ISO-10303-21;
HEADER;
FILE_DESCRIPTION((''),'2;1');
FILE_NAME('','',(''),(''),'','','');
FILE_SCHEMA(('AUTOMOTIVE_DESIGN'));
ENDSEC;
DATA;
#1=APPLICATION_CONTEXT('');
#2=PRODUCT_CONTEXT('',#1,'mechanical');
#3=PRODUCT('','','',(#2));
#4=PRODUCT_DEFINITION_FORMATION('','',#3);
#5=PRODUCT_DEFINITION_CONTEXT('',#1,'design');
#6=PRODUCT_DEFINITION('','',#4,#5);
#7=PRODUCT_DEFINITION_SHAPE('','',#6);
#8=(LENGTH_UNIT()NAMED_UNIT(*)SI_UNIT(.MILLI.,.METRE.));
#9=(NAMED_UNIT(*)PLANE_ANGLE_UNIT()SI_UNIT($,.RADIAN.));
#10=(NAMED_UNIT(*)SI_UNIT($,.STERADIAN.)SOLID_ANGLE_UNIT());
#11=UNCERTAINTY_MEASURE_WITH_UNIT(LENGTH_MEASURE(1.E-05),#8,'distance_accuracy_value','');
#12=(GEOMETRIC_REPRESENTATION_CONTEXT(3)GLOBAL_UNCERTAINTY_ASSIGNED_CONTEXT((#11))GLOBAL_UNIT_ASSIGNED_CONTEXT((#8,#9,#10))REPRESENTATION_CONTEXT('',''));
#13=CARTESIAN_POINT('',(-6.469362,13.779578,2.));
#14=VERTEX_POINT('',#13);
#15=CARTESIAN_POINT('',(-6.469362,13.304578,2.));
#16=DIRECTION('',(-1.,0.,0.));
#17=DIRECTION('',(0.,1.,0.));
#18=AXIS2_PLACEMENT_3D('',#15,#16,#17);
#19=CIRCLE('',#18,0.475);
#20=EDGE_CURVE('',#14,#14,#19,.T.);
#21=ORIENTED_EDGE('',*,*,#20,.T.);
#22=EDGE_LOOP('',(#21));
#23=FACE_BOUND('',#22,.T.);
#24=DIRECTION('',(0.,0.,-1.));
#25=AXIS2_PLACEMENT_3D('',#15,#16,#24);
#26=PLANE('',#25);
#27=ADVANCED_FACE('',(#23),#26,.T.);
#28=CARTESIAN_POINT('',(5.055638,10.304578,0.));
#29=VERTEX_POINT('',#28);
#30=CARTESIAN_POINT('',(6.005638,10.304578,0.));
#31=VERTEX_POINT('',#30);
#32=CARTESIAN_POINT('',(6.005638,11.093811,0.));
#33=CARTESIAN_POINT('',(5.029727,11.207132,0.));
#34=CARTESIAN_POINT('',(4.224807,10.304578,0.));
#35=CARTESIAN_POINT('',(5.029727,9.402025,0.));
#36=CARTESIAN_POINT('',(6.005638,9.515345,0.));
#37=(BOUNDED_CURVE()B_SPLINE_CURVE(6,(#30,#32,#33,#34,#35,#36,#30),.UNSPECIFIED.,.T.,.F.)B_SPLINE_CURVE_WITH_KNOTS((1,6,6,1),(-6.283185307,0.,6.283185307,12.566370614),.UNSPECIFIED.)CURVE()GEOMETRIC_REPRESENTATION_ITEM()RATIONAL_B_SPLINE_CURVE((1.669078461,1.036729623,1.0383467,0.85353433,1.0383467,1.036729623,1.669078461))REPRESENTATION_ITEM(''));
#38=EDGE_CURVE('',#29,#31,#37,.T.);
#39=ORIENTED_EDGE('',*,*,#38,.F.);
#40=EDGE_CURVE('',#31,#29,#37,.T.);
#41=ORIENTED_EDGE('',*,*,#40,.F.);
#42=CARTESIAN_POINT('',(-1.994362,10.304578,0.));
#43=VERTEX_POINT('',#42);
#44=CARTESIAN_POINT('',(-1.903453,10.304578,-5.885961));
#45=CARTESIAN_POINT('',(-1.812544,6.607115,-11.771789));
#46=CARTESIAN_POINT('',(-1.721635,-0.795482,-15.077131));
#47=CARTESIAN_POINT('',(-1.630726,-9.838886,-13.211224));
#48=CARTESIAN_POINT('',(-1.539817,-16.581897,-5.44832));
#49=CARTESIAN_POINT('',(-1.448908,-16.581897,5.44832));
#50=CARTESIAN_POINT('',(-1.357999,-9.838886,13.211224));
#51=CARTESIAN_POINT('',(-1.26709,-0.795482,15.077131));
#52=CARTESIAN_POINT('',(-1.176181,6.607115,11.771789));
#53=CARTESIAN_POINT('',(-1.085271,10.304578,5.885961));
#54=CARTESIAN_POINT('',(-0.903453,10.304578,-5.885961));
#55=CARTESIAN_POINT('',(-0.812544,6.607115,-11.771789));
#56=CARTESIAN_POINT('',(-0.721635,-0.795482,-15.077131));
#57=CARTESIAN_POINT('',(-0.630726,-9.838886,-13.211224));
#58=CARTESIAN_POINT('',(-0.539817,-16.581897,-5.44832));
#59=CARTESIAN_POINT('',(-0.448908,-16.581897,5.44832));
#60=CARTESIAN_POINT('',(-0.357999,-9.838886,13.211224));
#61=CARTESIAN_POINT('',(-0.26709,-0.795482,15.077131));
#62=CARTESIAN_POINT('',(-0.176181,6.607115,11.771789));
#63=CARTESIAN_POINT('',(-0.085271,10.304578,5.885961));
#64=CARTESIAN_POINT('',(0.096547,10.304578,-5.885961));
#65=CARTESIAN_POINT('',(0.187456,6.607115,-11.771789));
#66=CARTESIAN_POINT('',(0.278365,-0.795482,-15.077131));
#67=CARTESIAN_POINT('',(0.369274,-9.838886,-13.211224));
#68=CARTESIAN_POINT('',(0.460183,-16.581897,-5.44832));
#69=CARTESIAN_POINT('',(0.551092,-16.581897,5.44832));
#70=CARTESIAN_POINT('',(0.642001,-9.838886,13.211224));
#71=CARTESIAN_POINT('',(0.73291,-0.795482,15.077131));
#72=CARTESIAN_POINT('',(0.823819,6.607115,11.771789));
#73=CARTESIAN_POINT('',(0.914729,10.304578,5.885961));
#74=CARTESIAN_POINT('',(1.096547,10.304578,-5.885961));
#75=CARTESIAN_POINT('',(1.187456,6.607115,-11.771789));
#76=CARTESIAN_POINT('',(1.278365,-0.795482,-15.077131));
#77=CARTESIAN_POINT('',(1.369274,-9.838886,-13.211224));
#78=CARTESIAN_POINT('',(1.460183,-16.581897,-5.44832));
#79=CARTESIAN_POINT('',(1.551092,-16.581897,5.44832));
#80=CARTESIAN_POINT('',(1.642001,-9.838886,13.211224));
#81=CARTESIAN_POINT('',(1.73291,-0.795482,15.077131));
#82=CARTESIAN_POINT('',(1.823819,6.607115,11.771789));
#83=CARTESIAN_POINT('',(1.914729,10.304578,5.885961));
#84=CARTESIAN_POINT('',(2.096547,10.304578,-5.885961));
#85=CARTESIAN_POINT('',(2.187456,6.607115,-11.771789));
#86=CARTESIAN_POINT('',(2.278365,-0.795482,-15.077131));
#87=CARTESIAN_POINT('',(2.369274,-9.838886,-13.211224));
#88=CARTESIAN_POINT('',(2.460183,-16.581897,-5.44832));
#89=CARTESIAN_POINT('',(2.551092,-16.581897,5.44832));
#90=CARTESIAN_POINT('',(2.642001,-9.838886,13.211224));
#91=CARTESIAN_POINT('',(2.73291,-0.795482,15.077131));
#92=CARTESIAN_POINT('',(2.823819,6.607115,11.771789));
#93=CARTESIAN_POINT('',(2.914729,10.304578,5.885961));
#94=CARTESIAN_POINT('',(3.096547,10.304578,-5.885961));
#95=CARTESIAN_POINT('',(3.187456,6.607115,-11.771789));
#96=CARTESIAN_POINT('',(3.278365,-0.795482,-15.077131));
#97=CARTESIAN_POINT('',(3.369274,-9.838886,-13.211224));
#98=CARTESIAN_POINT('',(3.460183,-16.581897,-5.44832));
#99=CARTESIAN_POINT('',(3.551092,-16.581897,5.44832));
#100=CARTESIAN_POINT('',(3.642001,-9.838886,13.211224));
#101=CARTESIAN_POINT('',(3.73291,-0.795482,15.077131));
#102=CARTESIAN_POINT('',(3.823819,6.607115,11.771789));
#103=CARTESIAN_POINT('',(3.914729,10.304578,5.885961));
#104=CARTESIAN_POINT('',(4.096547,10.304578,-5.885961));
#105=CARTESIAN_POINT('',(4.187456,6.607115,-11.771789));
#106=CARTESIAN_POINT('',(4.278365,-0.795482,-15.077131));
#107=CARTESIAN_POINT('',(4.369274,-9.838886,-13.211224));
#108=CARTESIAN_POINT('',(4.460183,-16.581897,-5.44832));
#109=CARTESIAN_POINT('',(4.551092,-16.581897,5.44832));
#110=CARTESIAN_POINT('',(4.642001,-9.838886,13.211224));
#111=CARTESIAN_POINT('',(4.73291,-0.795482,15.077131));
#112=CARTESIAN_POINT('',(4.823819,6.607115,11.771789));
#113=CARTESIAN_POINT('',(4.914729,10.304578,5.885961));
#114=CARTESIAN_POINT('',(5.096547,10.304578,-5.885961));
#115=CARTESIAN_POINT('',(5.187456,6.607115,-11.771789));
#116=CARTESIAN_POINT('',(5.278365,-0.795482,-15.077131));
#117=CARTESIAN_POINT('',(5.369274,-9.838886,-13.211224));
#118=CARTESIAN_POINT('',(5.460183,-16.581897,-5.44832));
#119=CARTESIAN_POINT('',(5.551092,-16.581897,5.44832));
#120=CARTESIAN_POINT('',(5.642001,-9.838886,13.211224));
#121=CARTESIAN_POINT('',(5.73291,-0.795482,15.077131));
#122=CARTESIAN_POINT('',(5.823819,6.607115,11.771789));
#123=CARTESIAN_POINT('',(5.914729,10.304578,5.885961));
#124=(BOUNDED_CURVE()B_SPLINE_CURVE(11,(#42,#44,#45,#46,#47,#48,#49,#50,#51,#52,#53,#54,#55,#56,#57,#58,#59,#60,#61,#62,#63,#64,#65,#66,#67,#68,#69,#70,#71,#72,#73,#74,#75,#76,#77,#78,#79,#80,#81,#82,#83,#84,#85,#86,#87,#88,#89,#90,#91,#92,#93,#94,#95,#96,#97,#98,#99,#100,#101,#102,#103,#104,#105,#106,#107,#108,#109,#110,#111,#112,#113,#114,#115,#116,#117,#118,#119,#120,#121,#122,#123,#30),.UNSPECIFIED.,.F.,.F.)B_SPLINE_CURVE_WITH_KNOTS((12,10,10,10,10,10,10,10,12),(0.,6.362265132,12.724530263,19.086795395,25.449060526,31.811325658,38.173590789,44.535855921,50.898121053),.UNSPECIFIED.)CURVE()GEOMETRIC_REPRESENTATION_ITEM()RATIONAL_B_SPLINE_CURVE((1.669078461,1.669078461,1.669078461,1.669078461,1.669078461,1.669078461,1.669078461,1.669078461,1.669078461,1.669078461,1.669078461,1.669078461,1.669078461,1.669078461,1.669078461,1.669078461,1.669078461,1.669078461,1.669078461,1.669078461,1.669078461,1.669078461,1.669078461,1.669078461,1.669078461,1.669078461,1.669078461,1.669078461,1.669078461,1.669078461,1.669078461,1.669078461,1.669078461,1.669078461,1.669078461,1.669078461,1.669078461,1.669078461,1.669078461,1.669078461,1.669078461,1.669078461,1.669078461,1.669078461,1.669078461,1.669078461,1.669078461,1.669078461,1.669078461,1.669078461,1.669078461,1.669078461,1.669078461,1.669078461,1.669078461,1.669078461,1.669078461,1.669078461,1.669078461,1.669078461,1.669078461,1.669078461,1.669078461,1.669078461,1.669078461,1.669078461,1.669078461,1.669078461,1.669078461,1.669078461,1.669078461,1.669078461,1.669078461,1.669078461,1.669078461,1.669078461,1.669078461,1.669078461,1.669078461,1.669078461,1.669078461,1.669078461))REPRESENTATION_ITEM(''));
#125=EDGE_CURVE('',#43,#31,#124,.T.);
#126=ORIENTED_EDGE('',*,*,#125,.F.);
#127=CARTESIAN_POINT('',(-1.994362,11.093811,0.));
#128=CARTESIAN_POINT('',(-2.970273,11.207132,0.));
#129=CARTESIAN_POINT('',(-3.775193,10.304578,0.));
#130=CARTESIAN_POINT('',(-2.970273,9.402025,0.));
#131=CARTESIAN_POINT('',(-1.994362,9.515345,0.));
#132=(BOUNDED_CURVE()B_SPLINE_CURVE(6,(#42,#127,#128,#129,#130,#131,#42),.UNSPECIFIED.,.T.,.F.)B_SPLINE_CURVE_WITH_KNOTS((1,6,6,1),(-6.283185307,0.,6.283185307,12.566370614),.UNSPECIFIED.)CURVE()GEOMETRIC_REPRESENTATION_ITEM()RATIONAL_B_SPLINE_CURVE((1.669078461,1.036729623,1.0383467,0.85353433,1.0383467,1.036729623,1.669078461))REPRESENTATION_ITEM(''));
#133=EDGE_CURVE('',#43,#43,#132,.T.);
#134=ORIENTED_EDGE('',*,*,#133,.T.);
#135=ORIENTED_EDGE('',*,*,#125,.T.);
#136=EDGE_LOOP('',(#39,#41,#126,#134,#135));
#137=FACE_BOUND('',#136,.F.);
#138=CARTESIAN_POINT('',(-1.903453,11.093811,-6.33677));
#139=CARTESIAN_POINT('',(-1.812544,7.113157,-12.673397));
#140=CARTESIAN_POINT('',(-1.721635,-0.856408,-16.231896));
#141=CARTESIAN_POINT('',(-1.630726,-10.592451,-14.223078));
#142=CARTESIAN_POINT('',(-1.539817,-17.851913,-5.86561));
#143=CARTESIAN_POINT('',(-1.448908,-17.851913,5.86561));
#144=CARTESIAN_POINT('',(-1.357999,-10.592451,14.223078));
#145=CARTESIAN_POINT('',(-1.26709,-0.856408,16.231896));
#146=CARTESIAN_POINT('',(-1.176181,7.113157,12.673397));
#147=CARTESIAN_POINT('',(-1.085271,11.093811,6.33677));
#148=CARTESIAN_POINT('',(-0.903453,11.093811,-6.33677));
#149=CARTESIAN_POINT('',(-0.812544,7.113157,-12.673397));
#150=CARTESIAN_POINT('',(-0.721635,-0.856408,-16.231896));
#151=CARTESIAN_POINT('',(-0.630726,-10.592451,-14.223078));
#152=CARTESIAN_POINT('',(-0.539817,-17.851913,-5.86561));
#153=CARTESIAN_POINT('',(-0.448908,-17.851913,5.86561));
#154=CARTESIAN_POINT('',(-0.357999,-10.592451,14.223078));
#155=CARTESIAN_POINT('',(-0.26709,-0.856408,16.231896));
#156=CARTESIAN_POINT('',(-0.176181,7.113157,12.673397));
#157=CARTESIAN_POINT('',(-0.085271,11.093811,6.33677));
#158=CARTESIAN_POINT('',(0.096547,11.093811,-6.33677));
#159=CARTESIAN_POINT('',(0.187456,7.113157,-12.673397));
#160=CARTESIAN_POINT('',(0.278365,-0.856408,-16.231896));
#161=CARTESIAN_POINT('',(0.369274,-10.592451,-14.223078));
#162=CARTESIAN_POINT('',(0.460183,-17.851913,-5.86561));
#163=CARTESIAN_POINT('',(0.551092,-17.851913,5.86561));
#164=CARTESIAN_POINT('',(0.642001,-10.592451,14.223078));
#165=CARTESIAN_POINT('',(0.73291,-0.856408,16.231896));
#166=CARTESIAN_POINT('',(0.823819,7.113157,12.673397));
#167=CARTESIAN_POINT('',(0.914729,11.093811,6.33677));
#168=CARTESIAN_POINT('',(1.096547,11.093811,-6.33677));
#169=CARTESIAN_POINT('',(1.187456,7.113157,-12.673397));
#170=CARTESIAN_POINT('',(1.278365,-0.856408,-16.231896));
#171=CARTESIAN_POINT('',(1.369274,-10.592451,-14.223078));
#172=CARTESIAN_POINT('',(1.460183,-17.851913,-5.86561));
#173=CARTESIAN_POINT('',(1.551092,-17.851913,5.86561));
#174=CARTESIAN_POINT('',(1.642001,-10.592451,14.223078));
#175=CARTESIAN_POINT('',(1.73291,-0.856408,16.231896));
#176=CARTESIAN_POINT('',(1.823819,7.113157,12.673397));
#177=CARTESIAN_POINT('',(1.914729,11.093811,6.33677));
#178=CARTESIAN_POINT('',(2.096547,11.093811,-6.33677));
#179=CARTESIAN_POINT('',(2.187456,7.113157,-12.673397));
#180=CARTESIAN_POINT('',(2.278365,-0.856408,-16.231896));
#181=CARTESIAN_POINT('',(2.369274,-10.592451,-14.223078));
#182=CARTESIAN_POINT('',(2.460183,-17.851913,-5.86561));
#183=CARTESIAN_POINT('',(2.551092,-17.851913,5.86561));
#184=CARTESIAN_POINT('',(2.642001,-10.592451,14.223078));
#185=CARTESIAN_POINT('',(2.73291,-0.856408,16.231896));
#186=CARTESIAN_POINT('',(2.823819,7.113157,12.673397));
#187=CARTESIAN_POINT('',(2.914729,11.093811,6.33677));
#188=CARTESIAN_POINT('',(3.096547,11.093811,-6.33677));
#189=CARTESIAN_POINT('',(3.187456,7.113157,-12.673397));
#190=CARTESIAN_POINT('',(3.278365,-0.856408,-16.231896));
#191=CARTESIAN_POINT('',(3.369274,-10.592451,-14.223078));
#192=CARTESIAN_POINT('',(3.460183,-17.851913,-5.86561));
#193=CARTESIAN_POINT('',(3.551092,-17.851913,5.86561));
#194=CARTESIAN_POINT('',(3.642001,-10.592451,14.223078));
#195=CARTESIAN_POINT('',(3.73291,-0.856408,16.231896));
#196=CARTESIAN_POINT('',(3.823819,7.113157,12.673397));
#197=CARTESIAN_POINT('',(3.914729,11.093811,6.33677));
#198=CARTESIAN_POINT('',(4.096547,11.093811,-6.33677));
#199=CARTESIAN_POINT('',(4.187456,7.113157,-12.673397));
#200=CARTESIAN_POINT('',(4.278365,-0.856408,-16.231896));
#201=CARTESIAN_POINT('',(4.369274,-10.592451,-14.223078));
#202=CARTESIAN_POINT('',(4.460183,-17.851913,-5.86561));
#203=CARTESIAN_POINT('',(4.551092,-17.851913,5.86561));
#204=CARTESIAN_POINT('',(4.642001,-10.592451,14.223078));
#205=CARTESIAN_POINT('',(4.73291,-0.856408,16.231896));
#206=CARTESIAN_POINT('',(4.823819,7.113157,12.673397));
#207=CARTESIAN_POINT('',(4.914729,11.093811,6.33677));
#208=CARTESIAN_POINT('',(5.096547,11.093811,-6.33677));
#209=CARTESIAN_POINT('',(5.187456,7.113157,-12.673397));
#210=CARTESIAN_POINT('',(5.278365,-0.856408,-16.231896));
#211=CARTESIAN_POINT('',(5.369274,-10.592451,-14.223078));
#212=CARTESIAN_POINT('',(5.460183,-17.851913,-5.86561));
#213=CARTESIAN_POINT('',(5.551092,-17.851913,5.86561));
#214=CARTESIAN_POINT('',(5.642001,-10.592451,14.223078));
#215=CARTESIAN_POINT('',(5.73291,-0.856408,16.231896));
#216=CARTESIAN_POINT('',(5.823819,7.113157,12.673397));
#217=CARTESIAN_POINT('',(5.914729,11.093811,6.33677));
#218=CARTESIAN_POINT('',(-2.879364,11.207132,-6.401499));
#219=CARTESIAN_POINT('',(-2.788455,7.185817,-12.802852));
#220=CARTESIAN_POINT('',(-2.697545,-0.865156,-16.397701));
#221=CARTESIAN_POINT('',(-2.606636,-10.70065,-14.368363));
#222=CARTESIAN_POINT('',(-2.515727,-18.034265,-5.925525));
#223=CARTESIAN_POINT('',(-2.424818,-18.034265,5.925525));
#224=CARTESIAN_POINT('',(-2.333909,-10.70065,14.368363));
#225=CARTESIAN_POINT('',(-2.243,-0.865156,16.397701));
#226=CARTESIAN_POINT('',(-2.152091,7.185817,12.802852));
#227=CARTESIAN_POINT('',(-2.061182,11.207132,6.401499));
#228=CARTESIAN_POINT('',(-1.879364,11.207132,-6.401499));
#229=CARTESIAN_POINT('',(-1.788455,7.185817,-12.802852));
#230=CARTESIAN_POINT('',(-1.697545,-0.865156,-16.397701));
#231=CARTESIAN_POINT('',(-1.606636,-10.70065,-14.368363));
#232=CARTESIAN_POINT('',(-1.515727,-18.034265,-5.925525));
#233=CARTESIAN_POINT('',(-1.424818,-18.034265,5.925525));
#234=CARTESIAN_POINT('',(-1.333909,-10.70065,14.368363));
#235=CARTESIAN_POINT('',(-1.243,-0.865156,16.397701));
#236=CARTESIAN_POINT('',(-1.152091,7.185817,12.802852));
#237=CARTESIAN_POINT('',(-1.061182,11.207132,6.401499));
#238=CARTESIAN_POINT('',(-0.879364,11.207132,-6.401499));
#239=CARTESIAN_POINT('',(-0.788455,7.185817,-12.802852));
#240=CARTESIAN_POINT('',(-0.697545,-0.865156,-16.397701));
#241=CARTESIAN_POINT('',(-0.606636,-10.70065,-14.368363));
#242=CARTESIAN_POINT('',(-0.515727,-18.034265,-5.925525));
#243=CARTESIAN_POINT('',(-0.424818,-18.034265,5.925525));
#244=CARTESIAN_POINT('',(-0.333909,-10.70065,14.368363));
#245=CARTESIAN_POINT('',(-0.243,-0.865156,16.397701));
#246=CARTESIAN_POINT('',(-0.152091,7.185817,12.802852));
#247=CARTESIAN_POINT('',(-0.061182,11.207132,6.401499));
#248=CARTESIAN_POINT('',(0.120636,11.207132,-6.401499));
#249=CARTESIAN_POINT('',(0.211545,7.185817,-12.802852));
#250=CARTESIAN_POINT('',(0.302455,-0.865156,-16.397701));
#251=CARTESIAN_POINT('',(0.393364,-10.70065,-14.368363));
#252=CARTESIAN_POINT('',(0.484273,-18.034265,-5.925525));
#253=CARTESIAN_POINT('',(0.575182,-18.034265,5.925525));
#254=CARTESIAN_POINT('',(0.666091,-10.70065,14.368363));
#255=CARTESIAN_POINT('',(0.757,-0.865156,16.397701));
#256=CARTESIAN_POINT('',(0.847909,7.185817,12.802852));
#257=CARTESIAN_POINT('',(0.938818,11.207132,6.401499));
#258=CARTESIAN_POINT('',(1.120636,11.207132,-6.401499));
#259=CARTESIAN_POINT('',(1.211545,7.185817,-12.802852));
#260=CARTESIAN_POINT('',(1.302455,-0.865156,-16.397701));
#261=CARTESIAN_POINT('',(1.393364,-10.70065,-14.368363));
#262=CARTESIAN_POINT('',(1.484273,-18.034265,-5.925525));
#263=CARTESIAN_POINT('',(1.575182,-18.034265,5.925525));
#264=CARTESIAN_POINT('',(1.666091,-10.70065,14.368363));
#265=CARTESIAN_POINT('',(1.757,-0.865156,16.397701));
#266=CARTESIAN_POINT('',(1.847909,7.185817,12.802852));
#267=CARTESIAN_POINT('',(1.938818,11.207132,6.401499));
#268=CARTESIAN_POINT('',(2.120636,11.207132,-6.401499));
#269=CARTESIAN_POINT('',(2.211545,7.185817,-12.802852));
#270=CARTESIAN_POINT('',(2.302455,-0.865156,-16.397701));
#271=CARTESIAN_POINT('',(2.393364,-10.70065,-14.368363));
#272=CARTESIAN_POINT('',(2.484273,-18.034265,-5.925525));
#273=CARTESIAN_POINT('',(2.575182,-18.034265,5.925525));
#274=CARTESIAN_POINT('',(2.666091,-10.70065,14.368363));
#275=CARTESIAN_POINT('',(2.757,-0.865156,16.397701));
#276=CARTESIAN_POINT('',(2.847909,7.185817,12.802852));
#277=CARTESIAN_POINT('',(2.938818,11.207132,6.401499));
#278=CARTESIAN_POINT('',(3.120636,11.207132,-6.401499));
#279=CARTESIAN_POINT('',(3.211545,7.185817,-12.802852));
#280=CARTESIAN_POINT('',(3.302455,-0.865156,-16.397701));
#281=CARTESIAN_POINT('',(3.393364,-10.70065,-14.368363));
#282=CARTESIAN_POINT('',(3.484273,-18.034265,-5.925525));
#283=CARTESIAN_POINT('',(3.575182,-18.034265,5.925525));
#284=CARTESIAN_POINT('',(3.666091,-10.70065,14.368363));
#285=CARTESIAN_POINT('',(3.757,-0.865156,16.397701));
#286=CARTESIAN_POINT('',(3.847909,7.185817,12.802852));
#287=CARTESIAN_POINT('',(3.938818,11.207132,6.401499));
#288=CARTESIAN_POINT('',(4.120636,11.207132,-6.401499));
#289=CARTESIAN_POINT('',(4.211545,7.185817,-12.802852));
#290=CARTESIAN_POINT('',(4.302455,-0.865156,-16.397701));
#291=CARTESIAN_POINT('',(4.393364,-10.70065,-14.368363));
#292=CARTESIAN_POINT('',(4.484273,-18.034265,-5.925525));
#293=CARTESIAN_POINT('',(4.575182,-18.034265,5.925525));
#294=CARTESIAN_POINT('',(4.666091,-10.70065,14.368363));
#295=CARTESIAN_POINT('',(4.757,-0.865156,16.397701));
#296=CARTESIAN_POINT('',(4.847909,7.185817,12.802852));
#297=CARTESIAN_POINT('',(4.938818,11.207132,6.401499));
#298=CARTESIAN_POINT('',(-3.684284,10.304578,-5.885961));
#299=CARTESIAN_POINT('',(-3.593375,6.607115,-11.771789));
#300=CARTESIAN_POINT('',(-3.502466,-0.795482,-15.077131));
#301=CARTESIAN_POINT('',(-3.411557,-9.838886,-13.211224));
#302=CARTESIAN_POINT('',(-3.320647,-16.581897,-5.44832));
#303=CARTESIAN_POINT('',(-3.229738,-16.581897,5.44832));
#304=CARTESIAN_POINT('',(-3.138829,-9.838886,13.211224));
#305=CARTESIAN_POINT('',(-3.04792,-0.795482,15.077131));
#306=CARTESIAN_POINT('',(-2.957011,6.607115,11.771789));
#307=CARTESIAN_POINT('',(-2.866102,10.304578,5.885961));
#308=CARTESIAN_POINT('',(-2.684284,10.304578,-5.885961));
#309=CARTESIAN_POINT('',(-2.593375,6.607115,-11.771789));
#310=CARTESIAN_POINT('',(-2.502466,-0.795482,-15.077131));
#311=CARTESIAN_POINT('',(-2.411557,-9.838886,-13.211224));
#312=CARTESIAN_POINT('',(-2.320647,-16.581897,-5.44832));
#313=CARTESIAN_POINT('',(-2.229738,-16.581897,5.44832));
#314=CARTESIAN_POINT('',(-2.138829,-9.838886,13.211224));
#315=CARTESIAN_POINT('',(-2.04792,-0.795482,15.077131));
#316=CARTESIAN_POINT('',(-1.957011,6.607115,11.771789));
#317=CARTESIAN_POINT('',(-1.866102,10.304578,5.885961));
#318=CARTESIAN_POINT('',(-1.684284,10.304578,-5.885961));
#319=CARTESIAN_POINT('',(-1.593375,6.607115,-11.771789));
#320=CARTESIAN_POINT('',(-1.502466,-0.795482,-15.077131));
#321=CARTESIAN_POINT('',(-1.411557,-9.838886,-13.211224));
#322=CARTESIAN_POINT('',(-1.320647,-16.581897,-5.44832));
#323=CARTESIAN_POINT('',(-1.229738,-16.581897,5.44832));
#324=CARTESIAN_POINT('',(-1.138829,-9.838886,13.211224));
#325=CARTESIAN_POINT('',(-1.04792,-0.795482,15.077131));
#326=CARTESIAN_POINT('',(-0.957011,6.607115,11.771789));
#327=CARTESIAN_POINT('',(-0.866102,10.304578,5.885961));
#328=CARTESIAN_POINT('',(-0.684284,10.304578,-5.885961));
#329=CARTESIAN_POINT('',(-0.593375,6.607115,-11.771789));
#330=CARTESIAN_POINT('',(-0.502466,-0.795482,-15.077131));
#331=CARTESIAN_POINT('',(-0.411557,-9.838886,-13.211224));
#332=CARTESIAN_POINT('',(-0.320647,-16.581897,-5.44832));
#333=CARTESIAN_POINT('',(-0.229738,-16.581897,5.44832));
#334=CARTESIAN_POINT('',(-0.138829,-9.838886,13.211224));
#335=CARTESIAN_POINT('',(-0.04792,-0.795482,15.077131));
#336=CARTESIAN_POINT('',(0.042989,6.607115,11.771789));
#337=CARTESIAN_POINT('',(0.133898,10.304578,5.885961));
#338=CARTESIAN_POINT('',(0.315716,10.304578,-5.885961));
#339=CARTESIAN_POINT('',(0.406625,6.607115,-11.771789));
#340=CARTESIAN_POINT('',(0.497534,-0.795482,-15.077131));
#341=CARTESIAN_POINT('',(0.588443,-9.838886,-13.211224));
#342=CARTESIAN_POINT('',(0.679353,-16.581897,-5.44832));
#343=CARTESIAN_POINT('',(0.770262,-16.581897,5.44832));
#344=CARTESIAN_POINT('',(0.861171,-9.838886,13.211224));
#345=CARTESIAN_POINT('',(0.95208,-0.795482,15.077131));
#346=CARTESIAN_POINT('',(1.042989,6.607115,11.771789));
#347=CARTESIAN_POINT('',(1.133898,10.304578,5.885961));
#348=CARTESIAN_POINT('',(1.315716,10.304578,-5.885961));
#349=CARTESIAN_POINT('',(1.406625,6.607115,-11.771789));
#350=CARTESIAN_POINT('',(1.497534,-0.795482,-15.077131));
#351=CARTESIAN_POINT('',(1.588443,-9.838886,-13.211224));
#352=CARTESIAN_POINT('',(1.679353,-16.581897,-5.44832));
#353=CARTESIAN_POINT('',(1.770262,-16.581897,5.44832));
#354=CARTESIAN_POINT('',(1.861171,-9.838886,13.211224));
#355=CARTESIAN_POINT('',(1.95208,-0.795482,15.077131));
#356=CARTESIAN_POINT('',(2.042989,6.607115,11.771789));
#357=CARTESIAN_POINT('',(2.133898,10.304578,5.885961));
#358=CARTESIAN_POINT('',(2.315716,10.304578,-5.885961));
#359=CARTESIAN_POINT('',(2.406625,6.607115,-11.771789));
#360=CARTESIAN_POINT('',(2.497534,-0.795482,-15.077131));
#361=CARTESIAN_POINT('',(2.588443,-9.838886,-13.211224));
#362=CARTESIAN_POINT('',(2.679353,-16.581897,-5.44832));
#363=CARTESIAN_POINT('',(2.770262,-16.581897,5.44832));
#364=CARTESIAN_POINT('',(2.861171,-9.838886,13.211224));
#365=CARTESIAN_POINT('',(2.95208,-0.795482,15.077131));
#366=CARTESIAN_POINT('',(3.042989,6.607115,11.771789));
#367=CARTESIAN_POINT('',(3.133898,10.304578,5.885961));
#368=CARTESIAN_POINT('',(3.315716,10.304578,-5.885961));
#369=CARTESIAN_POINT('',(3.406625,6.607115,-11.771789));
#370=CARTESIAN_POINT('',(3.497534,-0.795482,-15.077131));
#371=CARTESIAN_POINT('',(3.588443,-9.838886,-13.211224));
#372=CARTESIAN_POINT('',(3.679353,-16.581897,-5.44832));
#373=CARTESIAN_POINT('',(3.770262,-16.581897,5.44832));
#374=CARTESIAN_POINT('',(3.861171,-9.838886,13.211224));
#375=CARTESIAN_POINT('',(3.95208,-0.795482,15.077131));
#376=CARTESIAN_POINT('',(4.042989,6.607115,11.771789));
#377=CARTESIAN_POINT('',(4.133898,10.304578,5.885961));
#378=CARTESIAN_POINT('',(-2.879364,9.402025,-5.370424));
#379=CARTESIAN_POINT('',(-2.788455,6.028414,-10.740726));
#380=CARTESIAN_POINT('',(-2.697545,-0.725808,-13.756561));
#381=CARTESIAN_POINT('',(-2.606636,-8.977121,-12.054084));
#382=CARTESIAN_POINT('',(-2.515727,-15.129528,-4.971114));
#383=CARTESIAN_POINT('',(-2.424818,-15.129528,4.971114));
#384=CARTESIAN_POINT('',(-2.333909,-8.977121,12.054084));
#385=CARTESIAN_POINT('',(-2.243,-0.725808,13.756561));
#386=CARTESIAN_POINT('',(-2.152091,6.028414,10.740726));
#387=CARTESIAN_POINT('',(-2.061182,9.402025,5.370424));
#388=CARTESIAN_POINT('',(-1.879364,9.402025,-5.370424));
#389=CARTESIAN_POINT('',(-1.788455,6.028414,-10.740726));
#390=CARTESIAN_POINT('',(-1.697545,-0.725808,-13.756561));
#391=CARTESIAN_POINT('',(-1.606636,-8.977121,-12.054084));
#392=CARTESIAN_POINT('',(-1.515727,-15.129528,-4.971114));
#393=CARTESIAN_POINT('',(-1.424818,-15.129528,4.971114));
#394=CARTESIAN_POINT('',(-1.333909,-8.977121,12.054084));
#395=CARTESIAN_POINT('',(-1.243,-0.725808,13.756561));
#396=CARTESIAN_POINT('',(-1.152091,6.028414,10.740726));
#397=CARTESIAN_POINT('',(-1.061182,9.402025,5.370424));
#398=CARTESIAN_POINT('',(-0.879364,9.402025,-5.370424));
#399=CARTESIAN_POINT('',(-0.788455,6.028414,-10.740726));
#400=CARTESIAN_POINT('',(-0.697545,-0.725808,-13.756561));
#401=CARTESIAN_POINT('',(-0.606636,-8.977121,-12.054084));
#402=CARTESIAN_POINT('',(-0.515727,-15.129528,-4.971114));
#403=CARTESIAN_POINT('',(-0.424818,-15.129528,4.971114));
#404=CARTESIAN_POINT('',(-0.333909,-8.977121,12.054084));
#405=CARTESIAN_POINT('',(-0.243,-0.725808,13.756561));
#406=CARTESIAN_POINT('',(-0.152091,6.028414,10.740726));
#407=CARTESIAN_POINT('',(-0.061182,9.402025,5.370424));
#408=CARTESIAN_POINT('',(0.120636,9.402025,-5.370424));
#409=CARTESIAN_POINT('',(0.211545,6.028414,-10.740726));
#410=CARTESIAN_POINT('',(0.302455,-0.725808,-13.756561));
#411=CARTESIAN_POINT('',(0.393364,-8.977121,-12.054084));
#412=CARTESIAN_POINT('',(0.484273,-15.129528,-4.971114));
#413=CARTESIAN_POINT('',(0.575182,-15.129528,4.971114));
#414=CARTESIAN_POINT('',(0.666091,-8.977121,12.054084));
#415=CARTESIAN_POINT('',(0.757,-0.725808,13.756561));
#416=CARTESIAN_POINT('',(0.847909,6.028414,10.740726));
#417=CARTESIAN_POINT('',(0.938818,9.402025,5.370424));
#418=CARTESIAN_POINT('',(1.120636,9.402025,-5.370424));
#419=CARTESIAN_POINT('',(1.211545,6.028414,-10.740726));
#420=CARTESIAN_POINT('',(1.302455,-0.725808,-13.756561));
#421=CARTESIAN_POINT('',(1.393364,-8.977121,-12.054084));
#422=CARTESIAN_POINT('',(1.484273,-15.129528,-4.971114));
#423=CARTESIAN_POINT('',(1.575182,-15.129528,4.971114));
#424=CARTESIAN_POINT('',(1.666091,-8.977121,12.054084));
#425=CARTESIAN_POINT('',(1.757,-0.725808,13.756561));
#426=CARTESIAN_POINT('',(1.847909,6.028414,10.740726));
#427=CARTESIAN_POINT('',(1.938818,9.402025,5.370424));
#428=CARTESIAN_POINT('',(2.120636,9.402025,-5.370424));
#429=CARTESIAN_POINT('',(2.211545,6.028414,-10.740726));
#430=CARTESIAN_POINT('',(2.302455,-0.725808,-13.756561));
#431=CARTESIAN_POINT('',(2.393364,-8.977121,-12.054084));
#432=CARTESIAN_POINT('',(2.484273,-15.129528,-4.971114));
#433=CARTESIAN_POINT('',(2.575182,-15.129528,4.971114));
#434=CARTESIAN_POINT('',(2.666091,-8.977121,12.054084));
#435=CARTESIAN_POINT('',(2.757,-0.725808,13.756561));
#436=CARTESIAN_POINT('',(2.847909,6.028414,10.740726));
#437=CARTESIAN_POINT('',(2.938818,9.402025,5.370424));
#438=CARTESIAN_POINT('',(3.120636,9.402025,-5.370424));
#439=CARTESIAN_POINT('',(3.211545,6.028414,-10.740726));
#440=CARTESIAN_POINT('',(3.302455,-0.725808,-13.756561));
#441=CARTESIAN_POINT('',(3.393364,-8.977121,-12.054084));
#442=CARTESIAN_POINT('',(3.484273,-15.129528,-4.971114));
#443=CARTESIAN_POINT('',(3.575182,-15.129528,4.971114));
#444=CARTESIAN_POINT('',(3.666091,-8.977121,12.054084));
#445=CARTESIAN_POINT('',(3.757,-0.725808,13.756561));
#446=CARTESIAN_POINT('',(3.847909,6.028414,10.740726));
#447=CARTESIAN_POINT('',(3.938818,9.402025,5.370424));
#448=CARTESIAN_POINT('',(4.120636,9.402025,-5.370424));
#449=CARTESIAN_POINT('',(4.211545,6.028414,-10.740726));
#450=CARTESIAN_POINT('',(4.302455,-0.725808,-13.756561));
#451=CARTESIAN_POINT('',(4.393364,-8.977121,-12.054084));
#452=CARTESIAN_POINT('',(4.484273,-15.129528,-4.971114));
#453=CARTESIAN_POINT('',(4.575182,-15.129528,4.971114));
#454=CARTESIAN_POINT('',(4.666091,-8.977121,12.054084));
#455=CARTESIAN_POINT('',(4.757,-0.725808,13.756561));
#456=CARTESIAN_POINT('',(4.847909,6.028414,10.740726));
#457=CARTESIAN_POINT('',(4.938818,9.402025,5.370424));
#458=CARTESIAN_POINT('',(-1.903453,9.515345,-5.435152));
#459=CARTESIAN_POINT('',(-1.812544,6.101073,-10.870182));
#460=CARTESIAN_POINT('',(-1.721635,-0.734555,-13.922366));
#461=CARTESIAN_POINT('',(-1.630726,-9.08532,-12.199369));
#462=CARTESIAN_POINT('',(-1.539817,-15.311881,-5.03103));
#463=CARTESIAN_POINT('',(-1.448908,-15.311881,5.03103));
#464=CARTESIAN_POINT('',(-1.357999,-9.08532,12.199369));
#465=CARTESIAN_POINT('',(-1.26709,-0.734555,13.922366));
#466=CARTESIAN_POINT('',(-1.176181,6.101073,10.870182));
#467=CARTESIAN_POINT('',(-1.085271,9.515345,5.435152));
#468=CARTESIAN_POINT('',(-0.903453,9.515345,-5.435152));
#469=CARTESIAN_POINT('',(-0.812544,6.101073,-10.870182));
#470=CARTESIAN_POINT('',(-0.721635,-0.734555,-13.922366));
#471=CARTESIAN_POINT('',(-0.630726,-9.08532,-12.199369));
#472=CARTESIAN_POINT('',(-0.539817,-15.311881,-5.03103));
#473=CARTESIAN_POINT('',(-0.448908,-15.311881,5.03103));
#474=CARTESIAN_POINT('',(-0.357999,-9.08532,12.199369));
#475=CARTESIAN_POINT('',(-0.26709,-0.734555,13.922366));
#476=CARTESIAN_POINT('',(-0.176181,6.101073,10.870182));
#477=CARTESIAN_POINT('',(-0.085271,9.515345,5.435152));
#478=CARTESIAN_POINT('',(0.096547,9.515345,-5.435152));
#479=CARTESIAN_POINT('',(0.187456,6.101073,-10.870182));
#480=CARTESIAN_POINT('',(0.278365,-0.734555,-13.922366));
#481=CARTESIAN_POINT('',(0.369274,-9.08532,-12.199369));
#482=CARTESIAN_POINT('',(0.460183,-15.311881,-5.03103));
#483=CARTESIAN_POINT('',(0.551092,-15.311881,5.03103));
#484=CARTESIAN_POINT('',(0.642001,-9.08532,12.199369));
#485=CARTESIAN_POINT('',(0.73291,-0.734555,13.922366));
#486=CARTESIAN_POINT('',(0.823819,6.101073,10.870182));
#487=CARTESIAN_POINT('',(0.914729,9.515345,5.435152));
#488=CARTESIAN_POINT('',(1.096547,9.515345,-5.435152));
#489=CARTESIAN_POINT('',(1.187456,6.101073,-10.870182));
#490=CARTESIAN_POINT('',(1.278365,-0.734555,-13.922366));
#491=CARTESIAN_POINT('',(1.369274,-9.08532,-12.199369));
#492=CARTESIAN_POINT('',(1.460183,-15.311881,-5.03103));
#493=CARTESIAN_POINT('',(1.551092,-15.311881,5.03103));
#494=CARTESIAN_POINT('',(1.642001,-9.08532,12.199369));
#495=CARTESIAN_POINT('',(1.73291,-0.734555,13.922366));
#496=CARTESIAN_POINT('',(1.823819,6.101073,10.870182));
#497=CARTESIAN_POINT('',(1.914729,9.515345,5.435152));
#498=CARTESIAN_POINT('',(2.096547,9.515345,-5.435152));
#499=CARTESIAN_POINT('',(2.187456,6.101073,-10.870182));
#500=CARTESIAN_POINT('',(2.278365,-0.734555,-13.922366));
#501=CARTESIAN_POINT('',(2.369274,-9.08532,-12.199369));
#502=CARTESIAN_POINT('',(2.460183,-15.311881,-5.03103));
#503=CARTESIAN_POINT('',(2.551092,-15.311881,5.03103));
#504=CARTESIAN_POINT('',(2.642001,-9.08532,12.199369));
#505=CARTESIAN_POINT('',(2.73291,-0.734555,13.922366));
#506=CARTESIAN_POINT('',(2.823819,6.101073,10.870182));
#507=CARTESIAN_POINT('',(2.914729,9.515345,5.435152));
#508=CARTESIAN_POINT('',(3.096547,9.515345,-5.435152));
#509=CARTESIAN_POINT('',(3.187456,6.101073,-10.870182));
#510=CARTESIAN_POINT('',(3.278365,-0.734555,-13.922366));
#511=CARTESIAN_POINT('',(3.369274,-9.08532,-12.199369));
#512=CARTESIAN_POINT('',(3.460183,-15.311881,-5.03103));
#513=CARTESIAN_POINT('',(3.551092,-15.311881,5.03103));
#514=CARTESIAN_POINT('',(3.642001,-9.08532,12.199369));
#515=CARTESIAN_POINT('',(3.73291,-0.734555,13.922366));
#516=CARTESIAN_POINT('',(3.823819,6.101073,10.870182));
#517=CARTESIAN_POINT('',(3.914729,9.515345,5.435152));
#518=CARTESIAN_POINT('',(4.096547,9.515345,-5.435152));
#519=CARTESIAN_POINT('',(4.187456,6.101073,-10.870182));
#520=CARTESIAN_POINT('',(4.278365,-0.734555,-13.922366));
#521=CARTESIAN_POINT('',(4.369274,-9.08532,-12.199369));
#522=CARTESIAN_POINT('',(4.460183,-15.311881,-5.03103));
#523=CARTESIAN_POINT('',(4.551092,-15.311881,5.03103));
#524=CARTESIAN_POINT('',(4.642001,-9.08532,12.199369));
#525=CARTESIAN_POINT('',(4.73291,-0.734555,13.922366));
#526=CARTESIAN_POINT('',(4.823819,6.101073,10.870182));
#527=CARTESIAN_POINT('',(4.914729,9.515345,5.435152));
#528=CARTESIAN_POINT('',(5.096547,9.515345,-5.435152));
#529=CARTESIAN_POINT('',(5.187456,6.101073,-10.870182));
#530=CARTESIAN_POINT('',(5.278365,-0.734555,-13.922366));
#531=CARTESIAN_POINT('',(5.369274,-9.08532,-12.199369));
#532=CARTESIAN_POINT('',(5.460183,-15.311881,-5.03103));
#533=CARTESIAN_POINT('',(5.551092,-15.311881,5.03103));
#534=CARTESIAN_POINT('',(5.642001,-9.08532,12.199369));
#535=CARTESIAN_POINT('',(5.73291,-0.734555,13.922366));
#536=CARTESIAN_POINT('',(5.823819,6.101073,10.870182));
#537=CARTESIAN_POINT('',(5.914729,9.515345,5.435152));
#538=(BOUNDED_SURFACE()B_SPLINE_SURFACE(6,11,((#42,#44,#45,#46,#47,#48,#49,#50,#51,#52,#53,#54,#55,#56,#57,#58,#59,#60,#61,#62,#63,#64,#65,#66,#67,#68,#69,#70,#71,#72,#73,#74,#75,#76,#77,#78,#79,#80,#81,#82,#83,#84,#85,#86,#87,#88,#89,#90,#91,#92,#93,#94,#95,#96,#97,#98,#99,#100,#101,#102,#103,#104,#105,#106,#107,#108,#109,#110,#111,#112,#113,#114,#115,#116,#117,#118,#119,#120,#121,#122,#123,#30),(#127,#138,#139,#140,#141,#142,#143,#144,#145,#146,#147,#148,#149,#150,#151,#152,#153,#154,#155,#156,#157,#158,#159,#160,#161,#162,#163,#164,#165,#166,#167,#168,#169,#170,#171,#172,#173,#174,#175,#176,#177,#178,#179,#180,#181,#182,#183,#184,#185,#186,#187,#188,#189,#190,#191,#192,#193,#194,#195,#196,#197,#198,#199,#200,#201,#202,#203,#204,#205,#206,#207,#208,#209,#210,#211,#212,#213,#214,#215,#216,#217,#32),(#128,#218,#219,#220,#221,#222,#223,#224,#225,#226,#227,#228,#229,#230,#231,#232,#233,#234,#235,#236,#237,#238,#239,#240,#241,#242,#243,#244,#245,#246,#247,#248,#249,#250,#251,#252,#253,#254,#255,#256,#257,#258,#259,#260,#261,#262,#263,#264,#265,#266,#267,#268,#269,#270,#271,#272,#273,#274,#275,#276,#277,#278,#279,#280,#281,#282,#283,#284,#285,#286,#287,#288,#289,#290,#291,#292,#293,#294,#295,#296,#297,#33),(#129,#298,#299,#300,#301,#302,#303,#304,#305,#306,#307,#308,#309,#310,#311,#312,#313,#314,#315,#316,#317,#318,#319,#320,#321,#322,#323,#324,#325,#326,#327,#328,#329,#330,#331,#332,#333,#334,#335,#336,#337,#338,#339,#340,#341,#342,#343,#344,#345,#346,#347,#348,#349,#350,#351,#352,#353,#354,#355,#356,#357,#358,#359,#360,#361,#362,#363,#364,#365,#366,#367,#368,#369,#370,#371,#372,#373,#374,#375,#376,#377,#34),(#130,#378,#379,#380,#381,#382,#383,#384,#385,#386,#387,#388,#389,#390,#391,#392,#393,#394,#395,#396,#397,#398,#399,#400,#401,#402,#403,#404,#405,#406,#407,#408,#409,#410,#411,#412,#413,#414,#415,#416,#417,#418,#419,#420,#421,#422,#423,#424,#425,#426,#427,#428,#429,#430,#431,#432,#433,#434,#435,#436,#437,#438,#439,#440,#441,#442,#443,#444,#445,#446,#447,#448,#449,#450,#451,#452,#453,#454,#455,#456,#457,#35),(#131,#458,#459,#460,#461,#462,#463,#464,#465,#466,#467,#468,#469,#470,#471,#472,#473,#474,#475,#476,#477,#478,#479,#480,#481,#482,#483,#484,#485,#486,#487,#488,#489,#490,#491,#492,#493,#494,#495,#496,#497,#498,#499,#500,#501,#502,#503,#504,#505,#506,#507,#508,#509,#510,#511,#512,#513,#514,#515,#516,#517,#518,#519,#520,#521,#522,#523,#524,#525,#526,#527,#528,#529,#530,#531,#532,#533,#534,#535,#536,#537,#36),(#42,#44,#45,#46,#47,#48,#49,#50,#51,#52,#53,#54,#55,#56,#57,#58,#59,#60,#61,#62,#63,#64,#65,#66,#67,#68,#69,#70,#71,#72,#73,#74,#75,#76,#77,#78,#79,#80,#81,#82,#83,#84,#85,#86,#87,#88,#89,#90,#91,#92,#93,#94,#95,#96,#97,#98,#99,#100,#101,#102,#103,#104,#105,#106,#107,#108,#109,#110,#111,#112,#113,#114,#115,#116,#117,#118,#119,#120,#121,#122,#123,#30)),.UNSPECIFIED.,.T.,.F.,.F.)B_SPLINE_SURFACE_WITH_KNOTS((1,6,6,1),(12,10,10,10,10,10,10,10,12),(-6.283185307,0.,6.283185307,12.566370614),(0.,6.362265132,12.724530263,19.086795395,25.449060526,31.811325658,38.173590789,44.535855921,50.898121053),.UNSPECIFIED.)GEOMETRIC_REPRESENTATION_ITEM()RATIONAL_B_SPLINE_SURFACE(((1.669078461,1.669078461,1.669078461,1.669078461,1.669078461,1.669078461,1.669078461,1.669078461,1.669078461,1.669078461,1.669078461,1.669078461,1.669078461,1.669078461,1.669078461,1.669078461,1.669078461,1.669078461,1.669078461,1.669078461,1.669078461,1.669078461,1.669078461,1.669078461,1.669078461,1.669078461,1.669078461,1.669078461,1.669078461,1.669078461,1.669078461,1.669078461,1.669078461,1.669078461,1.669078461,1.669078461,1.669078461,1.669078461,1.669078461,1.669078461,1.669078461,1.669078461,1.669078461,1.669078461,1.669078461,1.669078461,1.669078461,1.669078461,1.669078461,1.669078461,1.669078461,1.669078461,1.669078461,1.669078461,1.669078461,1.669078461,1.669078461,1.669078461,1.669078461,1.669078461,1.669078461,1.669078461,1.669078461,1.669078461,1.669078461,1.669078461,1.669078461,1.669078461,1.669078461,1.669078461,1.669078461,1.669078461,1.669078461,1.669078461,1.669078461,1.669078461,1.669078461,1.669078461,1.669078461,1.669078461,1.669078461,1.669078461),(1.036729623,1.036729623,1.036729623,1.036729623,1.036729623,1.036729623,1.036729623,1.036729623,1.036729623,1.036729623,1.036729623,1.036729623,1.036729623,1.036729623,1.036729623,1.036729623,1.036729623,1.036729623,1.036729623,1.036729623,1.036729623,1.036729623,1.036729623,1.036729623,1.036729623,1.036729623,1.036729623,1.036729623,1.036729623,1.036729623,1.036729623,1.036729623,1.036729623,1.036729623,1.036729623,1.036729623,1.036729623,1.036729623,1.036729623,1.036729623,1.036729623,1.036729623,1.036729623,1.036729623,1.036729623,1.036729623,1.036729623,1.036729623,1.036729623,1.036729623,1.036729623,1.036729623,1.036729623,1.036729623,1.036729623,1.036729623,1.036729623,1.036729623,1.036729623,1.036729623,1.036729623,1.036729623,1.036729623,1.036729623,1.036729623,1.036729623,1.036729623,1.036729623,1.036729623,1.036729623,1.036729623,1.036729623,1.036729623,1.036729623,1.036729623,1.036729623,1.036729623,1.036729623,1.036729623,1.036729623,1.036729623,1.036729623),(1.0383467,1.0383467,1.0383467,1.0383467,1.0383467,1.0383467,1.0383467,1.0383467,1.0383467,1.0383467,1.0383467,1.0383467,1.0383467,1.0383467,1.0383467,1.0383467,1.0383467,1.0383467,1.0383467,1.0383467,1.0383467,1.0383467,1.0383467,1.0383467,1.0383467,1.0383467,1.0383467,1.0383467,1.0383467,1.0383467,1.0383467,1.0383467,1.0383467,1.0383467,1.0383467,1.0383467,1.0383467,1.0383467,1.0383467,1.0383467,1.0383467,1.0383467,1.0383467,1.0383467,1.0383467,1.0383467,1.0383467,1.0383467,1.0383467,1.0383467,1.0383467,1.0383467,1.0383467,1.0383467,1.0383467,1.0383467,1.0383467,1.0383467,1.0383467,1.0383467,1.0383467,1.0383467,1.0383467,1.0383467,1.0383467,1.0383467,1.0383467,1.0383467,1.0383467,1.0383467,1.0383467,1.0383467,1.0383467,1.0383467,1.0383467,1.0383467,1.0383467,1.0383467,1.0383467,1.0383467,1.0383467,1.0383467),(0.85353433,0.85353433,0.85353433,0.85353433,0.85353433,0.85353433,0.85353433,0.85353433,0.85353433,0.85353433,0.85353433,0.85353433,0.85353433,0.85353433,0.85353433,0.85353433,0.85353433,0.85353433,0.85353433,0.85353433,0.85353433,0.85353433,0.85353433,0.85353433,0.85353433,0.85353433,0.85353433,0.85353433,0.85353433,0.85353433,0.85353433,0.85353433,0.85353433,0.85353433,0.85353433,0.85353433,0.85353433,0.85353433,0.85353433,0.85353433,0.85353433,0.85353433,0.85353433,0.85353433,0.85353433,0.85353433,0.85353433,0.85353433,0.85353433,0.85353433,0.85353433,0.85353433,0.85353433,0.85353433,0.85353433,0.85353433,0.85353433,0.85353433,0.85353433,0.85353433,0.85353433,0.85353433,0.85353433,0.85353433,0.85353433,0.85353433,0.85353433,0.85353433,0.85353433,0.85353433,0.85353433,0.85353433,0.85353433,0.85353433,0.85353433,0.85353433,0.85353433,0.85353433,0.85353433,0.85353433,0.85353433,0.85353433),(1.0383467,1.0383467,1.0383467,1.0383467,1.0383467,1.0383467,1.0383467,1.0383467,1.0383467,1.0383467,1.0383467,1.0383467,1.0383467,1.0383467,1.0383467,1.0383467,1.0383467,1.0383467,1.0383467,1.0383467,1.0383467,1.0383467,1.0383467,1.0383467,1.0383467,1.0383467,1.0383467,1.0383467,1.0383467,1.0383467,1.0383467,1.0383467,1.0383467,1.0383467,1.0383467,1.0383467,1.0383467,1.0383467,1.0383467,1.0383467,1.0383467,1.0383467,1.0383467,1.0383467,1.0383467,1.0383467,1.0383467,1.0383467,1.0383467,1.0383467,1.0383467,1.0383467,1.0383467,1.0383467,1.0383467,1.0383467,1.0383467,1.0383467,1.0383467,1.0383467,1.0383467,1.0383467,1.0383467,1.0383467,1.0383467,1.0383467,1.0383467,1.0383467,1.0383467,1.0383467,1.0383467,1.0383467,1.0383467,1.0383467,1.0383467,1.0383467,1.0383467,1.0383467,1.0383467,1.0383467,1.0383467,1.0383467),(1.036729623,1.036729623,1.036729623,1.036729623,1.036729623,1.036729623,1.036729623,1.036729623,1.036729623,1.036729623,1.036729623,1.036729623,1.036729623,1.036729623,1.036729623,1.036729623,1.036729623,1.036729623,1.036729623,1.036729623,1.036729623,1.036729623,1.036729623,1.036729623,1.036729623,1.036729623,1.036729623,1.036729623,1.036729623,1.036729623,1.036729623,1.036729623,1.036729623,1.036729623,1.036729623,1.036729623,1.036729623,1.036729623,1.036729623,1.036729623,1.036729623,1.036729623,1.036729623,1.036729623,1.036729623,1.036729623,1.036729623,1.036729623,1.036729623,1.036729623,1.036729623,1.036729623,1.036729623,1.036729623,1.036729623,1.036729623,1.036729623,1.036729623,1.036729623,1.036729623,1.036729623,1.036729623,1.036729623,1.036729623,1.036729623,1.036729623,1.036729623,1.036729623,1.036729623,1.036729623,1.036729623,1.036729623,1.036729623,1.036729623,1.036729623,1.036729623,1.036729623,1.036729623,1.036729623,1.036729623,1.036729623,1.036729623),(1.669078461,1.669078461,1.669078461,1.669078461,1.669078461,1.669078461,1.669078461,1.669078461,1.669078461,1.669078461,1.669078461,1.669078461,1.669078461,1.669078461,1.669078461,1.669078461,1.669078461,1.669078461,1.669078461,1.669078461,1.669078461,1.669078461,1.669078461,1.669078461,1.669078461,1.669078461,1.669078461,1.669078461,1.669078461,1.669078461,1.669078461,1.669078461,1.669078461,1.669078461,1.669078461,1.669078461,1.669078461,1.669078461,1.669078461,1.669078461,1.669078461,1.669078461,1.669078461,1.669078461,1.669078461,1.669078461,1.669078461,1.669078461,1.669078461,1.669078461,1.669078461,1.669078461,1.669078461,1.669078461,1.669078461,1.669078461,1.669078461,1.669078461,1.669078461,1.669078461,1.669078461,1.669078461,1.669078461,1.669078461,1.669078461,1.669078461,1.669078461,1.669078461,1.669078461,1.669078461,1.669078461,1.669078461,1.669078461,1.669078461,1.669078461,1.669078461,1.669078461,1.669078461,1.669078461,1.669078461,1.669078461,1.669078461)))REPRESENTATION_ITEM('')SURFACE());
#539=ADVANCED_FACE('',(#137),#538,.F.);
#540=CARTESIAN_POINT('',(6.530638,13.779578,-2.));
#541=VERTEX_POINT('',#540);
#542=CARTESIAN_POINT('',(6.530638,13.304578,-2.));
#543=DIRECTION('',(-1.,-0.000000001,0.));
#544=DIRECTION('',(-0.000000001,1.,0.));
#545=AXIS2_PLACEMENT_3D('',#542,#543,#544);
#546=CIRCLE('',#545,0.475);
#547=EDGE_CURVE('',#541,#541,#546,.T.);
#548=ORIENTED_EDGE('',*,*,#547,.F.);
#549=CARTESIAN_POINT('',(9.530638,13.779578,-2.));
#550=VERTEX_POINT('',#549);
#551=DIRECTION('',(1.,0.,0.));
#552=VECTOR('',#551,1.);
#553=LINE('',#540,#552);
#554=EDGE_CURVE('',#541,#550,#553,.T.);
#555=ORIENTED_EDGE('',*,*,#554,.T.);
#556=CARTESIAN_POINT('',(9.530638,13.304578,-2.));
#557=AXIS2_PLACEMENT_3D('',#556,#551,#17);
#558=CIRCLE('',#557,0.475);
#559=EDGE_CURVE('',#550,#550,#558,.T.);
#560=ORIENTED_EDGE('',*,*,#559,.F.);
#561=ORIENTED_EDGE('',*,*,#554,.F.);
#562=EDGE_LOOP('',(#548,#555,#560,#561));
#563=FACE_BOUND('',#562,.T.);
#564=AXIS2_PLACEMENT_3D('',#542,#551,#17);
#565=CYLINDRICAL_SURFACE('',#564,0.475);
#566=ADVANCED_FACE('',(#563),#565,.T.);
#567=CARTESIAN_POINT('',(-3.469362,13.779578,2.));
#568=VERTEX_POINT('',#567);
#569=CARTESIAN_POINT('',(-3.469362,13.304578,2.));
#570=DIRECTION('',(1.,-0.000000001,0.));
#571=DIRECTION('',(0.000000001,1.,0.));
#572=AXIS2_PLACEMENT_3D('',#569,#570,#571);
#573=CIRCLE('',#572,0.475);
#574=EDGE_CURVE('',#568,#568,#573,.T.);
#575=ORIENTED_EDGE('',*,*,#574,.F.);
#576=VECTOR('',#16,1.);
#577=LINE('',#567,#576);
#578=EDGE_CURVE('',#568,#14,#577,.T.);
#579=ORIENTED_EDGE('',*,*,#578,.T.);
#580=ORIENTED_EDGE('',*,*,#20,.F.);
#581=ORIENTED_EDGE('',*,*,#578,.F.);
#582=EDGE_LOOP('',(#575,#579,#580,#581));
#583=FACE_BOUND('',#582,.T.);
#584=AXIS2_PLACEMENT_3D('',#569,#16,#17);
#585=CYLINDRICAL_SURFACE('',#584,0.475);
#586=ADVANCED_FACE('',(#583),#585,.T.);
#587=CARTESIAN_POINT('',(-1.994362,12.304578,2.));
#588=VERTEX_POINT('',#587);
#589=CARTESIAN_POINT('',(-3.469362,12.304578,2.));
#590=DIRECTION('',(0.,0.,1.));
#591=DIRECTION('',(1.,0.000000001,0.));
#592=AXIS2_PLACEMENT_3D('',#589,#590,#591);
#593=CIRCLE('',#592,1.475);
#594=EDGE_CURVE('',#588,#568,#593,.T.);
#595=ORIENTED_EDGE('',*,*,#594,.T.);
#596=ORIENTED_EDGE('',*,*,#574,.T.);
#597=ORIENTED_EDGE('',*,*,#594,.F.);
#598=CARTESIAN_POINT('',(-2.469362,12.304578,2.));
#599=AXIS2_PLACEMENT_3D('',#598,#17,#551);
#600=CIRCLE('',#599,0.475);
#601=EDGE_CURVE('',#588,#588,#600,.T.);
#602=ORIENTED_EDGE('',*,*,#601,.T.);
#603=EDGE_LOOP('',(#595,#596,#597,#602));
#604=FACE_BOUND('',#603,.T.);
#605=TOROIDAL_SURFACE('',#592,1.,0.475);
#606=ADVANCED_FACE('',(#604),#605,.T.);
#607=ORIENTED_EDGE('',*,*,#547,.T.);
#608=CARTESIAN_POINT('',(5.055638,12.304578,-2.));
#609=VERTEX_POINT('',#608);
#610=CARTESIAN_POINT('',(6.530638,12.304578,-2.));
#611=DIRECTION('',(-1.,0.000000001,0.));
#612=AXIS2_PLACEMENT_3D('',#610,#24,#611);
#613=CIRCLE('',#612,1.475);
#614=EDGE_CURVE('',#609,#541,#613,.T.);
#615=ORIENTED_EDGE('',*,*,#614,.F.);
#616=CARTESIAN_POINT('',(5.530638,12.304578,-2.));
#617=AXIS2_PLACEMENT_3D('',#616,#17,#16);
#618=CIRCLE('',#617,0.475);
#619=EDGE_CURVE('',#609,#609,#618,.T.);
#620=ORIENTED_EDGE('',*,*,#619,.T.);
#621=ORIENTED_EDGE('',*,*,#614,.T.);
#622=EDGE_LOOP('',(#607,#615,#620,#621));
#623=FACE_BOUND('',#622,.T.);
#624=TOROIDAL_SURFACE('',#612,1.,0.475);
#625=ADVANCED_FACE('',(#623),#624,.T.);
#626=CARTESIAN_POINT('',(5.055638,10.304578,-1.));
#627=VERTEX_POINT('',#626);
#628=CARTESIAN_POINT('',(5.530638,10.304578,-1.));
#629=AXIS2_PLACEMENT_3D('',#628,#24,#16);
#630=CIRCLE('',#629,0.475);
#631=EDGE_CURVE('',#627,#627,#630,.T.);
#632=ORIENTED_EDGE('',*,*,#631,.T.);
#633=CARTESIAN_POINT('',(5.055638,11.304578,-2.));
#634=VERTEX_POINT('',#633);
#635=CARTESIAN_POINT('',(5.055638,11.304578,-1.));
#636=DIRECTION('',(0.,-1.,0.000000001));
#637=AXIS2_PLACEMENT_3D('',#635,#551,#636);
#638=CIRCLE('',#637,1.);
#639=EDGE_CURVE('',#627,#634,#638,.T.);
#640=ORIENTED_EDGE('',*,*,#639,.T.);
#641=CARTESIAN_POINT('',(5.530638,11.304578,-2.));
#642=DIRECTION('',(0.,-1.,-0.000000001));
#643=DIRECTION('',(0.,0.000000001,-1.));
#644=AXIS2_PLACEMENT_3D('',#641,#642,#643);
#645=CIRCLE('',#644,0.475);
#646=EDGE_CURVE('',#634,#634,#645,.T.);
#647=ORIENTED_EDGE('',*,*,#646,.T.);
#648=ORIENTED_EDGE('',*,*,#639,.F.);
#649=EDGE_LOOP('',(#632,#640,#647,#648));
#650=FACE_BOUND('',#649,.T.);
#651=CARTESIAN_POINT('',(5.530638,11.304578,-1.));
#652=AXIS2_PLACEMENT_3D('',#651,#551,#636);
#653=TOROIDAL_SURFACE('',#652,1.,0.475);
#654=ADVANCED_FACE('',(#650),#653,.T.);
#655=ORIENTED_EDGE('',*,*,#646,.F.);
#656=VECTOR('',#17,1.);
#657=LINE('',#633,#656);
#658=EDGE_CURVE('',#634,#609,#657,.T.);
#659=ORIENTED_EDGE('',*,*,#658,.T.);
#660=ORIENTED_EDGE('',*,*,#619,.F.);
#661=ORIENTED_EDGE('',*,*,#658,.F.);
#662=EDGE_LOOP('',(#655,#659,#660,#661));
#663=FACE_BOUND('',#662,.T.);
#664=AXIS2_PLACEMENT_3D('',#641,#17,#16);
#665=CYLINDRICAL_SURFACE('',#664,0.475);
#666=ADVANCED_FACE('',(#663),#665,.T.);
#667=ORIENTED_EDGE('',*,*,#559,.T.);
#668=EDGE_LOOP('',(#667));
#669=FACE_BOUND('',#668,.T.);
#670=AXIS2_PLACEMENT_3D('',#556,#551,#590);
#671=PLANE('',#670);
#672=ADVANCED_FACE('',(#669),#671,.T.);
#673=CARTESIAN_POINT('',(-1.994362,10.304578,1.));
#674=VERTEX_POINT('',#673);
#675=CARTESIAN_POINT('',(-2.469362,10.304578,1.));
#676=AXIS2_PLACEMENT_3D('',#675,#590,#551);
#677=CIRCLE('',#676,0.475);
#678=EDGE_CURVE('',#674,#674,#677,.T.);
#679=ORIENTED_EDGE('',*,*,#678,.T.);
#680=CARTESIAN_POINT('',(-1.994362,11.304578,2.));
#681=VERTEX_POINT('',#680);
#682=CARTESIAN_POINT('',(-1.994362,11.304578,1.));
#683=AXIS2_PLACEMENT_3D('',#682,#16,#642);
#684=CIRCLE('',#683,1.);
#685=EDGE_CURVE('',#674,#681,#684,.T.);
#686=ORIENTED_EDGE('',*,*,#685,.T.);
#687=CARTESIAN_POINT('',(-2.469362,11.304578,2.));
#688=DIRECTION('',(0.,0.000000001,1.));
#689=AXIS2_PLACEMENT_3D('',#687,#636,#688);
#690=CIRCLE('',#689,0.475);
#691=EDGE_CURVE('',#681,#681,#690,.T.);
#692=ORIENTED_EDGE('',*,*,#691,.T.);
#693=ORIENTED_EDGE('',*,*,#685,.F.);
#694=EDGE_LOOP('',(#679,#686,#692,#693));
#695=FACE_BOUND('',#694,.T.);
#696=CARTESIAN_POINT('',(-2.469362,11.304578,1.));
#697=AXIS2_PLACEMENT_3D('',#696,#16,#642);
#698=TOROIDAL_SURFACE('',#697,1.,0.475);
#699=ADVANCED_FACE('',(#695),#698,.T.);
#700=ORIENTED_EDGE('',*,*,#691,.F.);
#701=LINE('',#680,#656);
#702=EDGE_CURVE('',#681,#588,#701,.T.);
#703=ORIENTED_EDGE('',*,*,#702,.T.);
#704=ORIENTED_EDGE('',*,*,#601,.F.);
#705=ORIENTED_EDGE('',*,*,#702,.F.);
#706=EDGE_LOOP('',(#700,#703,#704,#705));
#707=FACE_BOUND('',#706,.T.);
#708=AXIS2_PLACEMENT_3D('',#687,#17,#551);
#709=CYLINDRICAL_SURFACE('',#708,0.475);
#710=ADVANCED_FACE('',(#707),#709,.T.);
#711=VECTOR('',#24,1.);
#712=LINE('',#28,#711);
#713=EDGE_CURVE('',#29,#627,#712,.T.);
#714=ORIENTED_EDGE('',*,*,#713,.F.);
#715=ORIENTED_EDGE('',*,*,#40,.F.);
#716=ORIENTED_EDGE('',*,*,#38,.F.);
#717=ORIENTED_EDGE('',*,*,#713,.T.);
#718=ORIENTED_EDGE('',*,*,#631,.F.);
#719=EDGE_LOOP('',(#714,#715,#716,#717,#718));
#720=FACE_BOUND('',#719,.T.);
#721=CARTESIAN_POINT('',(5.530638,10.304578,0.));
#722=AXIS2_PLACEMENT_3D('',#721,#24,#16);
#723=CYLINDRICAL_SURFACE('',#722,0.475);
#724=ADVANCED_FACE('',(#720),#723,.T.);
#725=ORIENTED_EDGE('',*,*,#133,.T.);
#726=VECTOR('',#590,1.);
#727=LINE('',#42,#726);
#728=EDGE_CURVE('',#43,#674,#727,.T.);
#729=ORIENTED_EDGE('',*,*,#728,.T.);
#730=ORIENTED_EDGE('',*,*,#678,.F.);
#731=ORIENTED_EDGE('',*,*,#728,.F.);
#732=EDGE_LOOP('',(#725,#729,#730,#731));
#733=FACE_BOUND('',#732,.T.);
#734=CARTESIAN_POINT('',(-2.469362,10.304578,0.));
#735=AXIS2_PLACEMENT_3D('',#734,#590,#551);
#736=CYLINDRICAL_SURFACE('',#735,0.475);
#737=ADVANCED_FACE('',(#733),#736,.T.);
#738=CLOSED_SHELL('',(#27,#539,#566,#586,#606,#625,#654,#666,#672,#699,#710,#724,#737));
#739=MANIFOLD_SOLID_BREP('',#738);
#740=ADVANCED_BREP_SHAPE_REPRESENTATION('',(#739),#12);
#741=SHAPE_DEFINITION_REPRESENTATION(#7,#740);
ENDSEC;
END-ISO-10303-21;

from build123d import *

# Parameters (mm, degrees)
SWEEP1_PITCH       = 1
SWEEP1_HEIGHT      = 8
SWEEP1_RADIUS      = 10.5
SWEEP1_START_ANGLE = -90
SKETCH2_R          = 0.475
SKETCH3_R          = 0.475
SKETCH5_R          = 0.475


with BuildPart() as part:
    # Sweep1: sweep along a helix
    with BuildLine() as sweep1_path:
        add(Helix(SWEEP1_PITCH, SWEEP1_HEIGHT, SWEEP1_RADIUS, center=(-2.5, 0, 0), direction=(1, 0, 0), lefthand=True, mode=Mode.PRIVATE).rotate(Axis((-2.5, 0, 0), (1, 0, 0)), SWEEP1_START_ANGLE))
    # Sketch2 → Sweep1 (sweep)
    with BuildSketch(Plane.XY):
        with Locations((-2.469362338, 10.304578214)):
            Circle(SKETCH2_R)
    sweep(path=sweep1_path.line, is_frenet=True)

    # Sweep4: sweep along a curve in space
    with BuildLine() as sweep4_path:
        Line((-2.469362338, 10.304578214, 0), (-2.469362338, 10.304578214, 1))
        ThreePointArc((-2.469362338, 10.304578214, 1), (-2.469362338, 10.597471432, 1.707106781), (-2.469362338, 11.304578214, 2))
        Line((-2.469362338, 11.304578214, 2), (-2.469362338, 12.304578214, 2))
        ThreePointArc((-2.469362338, 12.304578214, 2), (-2.762255557, 13.011684995, 2), (-3.469362338, 13.304578214, 2))
        Line((-3.469362338, 13.304578214, 2), (-6.469362338, 13.304578214, 2))
    # Sketch3 → Sweep4 (sweep)
    with BuildSketch(Plane.XY):
        with Locations((-2.469362338, 10.304578214)):
            Circle(SKETCH3_R)
    sweep(path=sweep4_path.line)

    # Sweep5: sweep along a curve in space
    with BuildLine() as sweep5_path:
        Line((5.530637662, 10.304578214, 0), (5.530637662, 10.304578214, -1))
        ThreePointArc((5.530637662, 10.304578214, -1), (5.530637662, 10.597471432, -1.707106781), (5.530637662, 11.304578214, -2))
        Line((5.530637662, 11.304578214, -2), (5.530637662, 12.304578214, -2))
        ThreePointArc((5.530637662, 12.304578214, -2), (5.823530881, 13.011684995, -2), (6.530637662, 13.304578214, -2))
        Line((6.530637662, 13.304578214, -2), (9.530637662, 13.304578214, -2))
    # Sketch5 → Sweep5 (sweep)
    with BuildSketch(Plane(origin=(0, 0, 0), x_dir=(-1, 0, 0), z_dir=(0, 0, -1))):
        with Locations((-5.530637662, 10.304578214)):
            Circle(SKETCH5_R)
    sweep(path=sweep5_path.line)


solid = part.part
